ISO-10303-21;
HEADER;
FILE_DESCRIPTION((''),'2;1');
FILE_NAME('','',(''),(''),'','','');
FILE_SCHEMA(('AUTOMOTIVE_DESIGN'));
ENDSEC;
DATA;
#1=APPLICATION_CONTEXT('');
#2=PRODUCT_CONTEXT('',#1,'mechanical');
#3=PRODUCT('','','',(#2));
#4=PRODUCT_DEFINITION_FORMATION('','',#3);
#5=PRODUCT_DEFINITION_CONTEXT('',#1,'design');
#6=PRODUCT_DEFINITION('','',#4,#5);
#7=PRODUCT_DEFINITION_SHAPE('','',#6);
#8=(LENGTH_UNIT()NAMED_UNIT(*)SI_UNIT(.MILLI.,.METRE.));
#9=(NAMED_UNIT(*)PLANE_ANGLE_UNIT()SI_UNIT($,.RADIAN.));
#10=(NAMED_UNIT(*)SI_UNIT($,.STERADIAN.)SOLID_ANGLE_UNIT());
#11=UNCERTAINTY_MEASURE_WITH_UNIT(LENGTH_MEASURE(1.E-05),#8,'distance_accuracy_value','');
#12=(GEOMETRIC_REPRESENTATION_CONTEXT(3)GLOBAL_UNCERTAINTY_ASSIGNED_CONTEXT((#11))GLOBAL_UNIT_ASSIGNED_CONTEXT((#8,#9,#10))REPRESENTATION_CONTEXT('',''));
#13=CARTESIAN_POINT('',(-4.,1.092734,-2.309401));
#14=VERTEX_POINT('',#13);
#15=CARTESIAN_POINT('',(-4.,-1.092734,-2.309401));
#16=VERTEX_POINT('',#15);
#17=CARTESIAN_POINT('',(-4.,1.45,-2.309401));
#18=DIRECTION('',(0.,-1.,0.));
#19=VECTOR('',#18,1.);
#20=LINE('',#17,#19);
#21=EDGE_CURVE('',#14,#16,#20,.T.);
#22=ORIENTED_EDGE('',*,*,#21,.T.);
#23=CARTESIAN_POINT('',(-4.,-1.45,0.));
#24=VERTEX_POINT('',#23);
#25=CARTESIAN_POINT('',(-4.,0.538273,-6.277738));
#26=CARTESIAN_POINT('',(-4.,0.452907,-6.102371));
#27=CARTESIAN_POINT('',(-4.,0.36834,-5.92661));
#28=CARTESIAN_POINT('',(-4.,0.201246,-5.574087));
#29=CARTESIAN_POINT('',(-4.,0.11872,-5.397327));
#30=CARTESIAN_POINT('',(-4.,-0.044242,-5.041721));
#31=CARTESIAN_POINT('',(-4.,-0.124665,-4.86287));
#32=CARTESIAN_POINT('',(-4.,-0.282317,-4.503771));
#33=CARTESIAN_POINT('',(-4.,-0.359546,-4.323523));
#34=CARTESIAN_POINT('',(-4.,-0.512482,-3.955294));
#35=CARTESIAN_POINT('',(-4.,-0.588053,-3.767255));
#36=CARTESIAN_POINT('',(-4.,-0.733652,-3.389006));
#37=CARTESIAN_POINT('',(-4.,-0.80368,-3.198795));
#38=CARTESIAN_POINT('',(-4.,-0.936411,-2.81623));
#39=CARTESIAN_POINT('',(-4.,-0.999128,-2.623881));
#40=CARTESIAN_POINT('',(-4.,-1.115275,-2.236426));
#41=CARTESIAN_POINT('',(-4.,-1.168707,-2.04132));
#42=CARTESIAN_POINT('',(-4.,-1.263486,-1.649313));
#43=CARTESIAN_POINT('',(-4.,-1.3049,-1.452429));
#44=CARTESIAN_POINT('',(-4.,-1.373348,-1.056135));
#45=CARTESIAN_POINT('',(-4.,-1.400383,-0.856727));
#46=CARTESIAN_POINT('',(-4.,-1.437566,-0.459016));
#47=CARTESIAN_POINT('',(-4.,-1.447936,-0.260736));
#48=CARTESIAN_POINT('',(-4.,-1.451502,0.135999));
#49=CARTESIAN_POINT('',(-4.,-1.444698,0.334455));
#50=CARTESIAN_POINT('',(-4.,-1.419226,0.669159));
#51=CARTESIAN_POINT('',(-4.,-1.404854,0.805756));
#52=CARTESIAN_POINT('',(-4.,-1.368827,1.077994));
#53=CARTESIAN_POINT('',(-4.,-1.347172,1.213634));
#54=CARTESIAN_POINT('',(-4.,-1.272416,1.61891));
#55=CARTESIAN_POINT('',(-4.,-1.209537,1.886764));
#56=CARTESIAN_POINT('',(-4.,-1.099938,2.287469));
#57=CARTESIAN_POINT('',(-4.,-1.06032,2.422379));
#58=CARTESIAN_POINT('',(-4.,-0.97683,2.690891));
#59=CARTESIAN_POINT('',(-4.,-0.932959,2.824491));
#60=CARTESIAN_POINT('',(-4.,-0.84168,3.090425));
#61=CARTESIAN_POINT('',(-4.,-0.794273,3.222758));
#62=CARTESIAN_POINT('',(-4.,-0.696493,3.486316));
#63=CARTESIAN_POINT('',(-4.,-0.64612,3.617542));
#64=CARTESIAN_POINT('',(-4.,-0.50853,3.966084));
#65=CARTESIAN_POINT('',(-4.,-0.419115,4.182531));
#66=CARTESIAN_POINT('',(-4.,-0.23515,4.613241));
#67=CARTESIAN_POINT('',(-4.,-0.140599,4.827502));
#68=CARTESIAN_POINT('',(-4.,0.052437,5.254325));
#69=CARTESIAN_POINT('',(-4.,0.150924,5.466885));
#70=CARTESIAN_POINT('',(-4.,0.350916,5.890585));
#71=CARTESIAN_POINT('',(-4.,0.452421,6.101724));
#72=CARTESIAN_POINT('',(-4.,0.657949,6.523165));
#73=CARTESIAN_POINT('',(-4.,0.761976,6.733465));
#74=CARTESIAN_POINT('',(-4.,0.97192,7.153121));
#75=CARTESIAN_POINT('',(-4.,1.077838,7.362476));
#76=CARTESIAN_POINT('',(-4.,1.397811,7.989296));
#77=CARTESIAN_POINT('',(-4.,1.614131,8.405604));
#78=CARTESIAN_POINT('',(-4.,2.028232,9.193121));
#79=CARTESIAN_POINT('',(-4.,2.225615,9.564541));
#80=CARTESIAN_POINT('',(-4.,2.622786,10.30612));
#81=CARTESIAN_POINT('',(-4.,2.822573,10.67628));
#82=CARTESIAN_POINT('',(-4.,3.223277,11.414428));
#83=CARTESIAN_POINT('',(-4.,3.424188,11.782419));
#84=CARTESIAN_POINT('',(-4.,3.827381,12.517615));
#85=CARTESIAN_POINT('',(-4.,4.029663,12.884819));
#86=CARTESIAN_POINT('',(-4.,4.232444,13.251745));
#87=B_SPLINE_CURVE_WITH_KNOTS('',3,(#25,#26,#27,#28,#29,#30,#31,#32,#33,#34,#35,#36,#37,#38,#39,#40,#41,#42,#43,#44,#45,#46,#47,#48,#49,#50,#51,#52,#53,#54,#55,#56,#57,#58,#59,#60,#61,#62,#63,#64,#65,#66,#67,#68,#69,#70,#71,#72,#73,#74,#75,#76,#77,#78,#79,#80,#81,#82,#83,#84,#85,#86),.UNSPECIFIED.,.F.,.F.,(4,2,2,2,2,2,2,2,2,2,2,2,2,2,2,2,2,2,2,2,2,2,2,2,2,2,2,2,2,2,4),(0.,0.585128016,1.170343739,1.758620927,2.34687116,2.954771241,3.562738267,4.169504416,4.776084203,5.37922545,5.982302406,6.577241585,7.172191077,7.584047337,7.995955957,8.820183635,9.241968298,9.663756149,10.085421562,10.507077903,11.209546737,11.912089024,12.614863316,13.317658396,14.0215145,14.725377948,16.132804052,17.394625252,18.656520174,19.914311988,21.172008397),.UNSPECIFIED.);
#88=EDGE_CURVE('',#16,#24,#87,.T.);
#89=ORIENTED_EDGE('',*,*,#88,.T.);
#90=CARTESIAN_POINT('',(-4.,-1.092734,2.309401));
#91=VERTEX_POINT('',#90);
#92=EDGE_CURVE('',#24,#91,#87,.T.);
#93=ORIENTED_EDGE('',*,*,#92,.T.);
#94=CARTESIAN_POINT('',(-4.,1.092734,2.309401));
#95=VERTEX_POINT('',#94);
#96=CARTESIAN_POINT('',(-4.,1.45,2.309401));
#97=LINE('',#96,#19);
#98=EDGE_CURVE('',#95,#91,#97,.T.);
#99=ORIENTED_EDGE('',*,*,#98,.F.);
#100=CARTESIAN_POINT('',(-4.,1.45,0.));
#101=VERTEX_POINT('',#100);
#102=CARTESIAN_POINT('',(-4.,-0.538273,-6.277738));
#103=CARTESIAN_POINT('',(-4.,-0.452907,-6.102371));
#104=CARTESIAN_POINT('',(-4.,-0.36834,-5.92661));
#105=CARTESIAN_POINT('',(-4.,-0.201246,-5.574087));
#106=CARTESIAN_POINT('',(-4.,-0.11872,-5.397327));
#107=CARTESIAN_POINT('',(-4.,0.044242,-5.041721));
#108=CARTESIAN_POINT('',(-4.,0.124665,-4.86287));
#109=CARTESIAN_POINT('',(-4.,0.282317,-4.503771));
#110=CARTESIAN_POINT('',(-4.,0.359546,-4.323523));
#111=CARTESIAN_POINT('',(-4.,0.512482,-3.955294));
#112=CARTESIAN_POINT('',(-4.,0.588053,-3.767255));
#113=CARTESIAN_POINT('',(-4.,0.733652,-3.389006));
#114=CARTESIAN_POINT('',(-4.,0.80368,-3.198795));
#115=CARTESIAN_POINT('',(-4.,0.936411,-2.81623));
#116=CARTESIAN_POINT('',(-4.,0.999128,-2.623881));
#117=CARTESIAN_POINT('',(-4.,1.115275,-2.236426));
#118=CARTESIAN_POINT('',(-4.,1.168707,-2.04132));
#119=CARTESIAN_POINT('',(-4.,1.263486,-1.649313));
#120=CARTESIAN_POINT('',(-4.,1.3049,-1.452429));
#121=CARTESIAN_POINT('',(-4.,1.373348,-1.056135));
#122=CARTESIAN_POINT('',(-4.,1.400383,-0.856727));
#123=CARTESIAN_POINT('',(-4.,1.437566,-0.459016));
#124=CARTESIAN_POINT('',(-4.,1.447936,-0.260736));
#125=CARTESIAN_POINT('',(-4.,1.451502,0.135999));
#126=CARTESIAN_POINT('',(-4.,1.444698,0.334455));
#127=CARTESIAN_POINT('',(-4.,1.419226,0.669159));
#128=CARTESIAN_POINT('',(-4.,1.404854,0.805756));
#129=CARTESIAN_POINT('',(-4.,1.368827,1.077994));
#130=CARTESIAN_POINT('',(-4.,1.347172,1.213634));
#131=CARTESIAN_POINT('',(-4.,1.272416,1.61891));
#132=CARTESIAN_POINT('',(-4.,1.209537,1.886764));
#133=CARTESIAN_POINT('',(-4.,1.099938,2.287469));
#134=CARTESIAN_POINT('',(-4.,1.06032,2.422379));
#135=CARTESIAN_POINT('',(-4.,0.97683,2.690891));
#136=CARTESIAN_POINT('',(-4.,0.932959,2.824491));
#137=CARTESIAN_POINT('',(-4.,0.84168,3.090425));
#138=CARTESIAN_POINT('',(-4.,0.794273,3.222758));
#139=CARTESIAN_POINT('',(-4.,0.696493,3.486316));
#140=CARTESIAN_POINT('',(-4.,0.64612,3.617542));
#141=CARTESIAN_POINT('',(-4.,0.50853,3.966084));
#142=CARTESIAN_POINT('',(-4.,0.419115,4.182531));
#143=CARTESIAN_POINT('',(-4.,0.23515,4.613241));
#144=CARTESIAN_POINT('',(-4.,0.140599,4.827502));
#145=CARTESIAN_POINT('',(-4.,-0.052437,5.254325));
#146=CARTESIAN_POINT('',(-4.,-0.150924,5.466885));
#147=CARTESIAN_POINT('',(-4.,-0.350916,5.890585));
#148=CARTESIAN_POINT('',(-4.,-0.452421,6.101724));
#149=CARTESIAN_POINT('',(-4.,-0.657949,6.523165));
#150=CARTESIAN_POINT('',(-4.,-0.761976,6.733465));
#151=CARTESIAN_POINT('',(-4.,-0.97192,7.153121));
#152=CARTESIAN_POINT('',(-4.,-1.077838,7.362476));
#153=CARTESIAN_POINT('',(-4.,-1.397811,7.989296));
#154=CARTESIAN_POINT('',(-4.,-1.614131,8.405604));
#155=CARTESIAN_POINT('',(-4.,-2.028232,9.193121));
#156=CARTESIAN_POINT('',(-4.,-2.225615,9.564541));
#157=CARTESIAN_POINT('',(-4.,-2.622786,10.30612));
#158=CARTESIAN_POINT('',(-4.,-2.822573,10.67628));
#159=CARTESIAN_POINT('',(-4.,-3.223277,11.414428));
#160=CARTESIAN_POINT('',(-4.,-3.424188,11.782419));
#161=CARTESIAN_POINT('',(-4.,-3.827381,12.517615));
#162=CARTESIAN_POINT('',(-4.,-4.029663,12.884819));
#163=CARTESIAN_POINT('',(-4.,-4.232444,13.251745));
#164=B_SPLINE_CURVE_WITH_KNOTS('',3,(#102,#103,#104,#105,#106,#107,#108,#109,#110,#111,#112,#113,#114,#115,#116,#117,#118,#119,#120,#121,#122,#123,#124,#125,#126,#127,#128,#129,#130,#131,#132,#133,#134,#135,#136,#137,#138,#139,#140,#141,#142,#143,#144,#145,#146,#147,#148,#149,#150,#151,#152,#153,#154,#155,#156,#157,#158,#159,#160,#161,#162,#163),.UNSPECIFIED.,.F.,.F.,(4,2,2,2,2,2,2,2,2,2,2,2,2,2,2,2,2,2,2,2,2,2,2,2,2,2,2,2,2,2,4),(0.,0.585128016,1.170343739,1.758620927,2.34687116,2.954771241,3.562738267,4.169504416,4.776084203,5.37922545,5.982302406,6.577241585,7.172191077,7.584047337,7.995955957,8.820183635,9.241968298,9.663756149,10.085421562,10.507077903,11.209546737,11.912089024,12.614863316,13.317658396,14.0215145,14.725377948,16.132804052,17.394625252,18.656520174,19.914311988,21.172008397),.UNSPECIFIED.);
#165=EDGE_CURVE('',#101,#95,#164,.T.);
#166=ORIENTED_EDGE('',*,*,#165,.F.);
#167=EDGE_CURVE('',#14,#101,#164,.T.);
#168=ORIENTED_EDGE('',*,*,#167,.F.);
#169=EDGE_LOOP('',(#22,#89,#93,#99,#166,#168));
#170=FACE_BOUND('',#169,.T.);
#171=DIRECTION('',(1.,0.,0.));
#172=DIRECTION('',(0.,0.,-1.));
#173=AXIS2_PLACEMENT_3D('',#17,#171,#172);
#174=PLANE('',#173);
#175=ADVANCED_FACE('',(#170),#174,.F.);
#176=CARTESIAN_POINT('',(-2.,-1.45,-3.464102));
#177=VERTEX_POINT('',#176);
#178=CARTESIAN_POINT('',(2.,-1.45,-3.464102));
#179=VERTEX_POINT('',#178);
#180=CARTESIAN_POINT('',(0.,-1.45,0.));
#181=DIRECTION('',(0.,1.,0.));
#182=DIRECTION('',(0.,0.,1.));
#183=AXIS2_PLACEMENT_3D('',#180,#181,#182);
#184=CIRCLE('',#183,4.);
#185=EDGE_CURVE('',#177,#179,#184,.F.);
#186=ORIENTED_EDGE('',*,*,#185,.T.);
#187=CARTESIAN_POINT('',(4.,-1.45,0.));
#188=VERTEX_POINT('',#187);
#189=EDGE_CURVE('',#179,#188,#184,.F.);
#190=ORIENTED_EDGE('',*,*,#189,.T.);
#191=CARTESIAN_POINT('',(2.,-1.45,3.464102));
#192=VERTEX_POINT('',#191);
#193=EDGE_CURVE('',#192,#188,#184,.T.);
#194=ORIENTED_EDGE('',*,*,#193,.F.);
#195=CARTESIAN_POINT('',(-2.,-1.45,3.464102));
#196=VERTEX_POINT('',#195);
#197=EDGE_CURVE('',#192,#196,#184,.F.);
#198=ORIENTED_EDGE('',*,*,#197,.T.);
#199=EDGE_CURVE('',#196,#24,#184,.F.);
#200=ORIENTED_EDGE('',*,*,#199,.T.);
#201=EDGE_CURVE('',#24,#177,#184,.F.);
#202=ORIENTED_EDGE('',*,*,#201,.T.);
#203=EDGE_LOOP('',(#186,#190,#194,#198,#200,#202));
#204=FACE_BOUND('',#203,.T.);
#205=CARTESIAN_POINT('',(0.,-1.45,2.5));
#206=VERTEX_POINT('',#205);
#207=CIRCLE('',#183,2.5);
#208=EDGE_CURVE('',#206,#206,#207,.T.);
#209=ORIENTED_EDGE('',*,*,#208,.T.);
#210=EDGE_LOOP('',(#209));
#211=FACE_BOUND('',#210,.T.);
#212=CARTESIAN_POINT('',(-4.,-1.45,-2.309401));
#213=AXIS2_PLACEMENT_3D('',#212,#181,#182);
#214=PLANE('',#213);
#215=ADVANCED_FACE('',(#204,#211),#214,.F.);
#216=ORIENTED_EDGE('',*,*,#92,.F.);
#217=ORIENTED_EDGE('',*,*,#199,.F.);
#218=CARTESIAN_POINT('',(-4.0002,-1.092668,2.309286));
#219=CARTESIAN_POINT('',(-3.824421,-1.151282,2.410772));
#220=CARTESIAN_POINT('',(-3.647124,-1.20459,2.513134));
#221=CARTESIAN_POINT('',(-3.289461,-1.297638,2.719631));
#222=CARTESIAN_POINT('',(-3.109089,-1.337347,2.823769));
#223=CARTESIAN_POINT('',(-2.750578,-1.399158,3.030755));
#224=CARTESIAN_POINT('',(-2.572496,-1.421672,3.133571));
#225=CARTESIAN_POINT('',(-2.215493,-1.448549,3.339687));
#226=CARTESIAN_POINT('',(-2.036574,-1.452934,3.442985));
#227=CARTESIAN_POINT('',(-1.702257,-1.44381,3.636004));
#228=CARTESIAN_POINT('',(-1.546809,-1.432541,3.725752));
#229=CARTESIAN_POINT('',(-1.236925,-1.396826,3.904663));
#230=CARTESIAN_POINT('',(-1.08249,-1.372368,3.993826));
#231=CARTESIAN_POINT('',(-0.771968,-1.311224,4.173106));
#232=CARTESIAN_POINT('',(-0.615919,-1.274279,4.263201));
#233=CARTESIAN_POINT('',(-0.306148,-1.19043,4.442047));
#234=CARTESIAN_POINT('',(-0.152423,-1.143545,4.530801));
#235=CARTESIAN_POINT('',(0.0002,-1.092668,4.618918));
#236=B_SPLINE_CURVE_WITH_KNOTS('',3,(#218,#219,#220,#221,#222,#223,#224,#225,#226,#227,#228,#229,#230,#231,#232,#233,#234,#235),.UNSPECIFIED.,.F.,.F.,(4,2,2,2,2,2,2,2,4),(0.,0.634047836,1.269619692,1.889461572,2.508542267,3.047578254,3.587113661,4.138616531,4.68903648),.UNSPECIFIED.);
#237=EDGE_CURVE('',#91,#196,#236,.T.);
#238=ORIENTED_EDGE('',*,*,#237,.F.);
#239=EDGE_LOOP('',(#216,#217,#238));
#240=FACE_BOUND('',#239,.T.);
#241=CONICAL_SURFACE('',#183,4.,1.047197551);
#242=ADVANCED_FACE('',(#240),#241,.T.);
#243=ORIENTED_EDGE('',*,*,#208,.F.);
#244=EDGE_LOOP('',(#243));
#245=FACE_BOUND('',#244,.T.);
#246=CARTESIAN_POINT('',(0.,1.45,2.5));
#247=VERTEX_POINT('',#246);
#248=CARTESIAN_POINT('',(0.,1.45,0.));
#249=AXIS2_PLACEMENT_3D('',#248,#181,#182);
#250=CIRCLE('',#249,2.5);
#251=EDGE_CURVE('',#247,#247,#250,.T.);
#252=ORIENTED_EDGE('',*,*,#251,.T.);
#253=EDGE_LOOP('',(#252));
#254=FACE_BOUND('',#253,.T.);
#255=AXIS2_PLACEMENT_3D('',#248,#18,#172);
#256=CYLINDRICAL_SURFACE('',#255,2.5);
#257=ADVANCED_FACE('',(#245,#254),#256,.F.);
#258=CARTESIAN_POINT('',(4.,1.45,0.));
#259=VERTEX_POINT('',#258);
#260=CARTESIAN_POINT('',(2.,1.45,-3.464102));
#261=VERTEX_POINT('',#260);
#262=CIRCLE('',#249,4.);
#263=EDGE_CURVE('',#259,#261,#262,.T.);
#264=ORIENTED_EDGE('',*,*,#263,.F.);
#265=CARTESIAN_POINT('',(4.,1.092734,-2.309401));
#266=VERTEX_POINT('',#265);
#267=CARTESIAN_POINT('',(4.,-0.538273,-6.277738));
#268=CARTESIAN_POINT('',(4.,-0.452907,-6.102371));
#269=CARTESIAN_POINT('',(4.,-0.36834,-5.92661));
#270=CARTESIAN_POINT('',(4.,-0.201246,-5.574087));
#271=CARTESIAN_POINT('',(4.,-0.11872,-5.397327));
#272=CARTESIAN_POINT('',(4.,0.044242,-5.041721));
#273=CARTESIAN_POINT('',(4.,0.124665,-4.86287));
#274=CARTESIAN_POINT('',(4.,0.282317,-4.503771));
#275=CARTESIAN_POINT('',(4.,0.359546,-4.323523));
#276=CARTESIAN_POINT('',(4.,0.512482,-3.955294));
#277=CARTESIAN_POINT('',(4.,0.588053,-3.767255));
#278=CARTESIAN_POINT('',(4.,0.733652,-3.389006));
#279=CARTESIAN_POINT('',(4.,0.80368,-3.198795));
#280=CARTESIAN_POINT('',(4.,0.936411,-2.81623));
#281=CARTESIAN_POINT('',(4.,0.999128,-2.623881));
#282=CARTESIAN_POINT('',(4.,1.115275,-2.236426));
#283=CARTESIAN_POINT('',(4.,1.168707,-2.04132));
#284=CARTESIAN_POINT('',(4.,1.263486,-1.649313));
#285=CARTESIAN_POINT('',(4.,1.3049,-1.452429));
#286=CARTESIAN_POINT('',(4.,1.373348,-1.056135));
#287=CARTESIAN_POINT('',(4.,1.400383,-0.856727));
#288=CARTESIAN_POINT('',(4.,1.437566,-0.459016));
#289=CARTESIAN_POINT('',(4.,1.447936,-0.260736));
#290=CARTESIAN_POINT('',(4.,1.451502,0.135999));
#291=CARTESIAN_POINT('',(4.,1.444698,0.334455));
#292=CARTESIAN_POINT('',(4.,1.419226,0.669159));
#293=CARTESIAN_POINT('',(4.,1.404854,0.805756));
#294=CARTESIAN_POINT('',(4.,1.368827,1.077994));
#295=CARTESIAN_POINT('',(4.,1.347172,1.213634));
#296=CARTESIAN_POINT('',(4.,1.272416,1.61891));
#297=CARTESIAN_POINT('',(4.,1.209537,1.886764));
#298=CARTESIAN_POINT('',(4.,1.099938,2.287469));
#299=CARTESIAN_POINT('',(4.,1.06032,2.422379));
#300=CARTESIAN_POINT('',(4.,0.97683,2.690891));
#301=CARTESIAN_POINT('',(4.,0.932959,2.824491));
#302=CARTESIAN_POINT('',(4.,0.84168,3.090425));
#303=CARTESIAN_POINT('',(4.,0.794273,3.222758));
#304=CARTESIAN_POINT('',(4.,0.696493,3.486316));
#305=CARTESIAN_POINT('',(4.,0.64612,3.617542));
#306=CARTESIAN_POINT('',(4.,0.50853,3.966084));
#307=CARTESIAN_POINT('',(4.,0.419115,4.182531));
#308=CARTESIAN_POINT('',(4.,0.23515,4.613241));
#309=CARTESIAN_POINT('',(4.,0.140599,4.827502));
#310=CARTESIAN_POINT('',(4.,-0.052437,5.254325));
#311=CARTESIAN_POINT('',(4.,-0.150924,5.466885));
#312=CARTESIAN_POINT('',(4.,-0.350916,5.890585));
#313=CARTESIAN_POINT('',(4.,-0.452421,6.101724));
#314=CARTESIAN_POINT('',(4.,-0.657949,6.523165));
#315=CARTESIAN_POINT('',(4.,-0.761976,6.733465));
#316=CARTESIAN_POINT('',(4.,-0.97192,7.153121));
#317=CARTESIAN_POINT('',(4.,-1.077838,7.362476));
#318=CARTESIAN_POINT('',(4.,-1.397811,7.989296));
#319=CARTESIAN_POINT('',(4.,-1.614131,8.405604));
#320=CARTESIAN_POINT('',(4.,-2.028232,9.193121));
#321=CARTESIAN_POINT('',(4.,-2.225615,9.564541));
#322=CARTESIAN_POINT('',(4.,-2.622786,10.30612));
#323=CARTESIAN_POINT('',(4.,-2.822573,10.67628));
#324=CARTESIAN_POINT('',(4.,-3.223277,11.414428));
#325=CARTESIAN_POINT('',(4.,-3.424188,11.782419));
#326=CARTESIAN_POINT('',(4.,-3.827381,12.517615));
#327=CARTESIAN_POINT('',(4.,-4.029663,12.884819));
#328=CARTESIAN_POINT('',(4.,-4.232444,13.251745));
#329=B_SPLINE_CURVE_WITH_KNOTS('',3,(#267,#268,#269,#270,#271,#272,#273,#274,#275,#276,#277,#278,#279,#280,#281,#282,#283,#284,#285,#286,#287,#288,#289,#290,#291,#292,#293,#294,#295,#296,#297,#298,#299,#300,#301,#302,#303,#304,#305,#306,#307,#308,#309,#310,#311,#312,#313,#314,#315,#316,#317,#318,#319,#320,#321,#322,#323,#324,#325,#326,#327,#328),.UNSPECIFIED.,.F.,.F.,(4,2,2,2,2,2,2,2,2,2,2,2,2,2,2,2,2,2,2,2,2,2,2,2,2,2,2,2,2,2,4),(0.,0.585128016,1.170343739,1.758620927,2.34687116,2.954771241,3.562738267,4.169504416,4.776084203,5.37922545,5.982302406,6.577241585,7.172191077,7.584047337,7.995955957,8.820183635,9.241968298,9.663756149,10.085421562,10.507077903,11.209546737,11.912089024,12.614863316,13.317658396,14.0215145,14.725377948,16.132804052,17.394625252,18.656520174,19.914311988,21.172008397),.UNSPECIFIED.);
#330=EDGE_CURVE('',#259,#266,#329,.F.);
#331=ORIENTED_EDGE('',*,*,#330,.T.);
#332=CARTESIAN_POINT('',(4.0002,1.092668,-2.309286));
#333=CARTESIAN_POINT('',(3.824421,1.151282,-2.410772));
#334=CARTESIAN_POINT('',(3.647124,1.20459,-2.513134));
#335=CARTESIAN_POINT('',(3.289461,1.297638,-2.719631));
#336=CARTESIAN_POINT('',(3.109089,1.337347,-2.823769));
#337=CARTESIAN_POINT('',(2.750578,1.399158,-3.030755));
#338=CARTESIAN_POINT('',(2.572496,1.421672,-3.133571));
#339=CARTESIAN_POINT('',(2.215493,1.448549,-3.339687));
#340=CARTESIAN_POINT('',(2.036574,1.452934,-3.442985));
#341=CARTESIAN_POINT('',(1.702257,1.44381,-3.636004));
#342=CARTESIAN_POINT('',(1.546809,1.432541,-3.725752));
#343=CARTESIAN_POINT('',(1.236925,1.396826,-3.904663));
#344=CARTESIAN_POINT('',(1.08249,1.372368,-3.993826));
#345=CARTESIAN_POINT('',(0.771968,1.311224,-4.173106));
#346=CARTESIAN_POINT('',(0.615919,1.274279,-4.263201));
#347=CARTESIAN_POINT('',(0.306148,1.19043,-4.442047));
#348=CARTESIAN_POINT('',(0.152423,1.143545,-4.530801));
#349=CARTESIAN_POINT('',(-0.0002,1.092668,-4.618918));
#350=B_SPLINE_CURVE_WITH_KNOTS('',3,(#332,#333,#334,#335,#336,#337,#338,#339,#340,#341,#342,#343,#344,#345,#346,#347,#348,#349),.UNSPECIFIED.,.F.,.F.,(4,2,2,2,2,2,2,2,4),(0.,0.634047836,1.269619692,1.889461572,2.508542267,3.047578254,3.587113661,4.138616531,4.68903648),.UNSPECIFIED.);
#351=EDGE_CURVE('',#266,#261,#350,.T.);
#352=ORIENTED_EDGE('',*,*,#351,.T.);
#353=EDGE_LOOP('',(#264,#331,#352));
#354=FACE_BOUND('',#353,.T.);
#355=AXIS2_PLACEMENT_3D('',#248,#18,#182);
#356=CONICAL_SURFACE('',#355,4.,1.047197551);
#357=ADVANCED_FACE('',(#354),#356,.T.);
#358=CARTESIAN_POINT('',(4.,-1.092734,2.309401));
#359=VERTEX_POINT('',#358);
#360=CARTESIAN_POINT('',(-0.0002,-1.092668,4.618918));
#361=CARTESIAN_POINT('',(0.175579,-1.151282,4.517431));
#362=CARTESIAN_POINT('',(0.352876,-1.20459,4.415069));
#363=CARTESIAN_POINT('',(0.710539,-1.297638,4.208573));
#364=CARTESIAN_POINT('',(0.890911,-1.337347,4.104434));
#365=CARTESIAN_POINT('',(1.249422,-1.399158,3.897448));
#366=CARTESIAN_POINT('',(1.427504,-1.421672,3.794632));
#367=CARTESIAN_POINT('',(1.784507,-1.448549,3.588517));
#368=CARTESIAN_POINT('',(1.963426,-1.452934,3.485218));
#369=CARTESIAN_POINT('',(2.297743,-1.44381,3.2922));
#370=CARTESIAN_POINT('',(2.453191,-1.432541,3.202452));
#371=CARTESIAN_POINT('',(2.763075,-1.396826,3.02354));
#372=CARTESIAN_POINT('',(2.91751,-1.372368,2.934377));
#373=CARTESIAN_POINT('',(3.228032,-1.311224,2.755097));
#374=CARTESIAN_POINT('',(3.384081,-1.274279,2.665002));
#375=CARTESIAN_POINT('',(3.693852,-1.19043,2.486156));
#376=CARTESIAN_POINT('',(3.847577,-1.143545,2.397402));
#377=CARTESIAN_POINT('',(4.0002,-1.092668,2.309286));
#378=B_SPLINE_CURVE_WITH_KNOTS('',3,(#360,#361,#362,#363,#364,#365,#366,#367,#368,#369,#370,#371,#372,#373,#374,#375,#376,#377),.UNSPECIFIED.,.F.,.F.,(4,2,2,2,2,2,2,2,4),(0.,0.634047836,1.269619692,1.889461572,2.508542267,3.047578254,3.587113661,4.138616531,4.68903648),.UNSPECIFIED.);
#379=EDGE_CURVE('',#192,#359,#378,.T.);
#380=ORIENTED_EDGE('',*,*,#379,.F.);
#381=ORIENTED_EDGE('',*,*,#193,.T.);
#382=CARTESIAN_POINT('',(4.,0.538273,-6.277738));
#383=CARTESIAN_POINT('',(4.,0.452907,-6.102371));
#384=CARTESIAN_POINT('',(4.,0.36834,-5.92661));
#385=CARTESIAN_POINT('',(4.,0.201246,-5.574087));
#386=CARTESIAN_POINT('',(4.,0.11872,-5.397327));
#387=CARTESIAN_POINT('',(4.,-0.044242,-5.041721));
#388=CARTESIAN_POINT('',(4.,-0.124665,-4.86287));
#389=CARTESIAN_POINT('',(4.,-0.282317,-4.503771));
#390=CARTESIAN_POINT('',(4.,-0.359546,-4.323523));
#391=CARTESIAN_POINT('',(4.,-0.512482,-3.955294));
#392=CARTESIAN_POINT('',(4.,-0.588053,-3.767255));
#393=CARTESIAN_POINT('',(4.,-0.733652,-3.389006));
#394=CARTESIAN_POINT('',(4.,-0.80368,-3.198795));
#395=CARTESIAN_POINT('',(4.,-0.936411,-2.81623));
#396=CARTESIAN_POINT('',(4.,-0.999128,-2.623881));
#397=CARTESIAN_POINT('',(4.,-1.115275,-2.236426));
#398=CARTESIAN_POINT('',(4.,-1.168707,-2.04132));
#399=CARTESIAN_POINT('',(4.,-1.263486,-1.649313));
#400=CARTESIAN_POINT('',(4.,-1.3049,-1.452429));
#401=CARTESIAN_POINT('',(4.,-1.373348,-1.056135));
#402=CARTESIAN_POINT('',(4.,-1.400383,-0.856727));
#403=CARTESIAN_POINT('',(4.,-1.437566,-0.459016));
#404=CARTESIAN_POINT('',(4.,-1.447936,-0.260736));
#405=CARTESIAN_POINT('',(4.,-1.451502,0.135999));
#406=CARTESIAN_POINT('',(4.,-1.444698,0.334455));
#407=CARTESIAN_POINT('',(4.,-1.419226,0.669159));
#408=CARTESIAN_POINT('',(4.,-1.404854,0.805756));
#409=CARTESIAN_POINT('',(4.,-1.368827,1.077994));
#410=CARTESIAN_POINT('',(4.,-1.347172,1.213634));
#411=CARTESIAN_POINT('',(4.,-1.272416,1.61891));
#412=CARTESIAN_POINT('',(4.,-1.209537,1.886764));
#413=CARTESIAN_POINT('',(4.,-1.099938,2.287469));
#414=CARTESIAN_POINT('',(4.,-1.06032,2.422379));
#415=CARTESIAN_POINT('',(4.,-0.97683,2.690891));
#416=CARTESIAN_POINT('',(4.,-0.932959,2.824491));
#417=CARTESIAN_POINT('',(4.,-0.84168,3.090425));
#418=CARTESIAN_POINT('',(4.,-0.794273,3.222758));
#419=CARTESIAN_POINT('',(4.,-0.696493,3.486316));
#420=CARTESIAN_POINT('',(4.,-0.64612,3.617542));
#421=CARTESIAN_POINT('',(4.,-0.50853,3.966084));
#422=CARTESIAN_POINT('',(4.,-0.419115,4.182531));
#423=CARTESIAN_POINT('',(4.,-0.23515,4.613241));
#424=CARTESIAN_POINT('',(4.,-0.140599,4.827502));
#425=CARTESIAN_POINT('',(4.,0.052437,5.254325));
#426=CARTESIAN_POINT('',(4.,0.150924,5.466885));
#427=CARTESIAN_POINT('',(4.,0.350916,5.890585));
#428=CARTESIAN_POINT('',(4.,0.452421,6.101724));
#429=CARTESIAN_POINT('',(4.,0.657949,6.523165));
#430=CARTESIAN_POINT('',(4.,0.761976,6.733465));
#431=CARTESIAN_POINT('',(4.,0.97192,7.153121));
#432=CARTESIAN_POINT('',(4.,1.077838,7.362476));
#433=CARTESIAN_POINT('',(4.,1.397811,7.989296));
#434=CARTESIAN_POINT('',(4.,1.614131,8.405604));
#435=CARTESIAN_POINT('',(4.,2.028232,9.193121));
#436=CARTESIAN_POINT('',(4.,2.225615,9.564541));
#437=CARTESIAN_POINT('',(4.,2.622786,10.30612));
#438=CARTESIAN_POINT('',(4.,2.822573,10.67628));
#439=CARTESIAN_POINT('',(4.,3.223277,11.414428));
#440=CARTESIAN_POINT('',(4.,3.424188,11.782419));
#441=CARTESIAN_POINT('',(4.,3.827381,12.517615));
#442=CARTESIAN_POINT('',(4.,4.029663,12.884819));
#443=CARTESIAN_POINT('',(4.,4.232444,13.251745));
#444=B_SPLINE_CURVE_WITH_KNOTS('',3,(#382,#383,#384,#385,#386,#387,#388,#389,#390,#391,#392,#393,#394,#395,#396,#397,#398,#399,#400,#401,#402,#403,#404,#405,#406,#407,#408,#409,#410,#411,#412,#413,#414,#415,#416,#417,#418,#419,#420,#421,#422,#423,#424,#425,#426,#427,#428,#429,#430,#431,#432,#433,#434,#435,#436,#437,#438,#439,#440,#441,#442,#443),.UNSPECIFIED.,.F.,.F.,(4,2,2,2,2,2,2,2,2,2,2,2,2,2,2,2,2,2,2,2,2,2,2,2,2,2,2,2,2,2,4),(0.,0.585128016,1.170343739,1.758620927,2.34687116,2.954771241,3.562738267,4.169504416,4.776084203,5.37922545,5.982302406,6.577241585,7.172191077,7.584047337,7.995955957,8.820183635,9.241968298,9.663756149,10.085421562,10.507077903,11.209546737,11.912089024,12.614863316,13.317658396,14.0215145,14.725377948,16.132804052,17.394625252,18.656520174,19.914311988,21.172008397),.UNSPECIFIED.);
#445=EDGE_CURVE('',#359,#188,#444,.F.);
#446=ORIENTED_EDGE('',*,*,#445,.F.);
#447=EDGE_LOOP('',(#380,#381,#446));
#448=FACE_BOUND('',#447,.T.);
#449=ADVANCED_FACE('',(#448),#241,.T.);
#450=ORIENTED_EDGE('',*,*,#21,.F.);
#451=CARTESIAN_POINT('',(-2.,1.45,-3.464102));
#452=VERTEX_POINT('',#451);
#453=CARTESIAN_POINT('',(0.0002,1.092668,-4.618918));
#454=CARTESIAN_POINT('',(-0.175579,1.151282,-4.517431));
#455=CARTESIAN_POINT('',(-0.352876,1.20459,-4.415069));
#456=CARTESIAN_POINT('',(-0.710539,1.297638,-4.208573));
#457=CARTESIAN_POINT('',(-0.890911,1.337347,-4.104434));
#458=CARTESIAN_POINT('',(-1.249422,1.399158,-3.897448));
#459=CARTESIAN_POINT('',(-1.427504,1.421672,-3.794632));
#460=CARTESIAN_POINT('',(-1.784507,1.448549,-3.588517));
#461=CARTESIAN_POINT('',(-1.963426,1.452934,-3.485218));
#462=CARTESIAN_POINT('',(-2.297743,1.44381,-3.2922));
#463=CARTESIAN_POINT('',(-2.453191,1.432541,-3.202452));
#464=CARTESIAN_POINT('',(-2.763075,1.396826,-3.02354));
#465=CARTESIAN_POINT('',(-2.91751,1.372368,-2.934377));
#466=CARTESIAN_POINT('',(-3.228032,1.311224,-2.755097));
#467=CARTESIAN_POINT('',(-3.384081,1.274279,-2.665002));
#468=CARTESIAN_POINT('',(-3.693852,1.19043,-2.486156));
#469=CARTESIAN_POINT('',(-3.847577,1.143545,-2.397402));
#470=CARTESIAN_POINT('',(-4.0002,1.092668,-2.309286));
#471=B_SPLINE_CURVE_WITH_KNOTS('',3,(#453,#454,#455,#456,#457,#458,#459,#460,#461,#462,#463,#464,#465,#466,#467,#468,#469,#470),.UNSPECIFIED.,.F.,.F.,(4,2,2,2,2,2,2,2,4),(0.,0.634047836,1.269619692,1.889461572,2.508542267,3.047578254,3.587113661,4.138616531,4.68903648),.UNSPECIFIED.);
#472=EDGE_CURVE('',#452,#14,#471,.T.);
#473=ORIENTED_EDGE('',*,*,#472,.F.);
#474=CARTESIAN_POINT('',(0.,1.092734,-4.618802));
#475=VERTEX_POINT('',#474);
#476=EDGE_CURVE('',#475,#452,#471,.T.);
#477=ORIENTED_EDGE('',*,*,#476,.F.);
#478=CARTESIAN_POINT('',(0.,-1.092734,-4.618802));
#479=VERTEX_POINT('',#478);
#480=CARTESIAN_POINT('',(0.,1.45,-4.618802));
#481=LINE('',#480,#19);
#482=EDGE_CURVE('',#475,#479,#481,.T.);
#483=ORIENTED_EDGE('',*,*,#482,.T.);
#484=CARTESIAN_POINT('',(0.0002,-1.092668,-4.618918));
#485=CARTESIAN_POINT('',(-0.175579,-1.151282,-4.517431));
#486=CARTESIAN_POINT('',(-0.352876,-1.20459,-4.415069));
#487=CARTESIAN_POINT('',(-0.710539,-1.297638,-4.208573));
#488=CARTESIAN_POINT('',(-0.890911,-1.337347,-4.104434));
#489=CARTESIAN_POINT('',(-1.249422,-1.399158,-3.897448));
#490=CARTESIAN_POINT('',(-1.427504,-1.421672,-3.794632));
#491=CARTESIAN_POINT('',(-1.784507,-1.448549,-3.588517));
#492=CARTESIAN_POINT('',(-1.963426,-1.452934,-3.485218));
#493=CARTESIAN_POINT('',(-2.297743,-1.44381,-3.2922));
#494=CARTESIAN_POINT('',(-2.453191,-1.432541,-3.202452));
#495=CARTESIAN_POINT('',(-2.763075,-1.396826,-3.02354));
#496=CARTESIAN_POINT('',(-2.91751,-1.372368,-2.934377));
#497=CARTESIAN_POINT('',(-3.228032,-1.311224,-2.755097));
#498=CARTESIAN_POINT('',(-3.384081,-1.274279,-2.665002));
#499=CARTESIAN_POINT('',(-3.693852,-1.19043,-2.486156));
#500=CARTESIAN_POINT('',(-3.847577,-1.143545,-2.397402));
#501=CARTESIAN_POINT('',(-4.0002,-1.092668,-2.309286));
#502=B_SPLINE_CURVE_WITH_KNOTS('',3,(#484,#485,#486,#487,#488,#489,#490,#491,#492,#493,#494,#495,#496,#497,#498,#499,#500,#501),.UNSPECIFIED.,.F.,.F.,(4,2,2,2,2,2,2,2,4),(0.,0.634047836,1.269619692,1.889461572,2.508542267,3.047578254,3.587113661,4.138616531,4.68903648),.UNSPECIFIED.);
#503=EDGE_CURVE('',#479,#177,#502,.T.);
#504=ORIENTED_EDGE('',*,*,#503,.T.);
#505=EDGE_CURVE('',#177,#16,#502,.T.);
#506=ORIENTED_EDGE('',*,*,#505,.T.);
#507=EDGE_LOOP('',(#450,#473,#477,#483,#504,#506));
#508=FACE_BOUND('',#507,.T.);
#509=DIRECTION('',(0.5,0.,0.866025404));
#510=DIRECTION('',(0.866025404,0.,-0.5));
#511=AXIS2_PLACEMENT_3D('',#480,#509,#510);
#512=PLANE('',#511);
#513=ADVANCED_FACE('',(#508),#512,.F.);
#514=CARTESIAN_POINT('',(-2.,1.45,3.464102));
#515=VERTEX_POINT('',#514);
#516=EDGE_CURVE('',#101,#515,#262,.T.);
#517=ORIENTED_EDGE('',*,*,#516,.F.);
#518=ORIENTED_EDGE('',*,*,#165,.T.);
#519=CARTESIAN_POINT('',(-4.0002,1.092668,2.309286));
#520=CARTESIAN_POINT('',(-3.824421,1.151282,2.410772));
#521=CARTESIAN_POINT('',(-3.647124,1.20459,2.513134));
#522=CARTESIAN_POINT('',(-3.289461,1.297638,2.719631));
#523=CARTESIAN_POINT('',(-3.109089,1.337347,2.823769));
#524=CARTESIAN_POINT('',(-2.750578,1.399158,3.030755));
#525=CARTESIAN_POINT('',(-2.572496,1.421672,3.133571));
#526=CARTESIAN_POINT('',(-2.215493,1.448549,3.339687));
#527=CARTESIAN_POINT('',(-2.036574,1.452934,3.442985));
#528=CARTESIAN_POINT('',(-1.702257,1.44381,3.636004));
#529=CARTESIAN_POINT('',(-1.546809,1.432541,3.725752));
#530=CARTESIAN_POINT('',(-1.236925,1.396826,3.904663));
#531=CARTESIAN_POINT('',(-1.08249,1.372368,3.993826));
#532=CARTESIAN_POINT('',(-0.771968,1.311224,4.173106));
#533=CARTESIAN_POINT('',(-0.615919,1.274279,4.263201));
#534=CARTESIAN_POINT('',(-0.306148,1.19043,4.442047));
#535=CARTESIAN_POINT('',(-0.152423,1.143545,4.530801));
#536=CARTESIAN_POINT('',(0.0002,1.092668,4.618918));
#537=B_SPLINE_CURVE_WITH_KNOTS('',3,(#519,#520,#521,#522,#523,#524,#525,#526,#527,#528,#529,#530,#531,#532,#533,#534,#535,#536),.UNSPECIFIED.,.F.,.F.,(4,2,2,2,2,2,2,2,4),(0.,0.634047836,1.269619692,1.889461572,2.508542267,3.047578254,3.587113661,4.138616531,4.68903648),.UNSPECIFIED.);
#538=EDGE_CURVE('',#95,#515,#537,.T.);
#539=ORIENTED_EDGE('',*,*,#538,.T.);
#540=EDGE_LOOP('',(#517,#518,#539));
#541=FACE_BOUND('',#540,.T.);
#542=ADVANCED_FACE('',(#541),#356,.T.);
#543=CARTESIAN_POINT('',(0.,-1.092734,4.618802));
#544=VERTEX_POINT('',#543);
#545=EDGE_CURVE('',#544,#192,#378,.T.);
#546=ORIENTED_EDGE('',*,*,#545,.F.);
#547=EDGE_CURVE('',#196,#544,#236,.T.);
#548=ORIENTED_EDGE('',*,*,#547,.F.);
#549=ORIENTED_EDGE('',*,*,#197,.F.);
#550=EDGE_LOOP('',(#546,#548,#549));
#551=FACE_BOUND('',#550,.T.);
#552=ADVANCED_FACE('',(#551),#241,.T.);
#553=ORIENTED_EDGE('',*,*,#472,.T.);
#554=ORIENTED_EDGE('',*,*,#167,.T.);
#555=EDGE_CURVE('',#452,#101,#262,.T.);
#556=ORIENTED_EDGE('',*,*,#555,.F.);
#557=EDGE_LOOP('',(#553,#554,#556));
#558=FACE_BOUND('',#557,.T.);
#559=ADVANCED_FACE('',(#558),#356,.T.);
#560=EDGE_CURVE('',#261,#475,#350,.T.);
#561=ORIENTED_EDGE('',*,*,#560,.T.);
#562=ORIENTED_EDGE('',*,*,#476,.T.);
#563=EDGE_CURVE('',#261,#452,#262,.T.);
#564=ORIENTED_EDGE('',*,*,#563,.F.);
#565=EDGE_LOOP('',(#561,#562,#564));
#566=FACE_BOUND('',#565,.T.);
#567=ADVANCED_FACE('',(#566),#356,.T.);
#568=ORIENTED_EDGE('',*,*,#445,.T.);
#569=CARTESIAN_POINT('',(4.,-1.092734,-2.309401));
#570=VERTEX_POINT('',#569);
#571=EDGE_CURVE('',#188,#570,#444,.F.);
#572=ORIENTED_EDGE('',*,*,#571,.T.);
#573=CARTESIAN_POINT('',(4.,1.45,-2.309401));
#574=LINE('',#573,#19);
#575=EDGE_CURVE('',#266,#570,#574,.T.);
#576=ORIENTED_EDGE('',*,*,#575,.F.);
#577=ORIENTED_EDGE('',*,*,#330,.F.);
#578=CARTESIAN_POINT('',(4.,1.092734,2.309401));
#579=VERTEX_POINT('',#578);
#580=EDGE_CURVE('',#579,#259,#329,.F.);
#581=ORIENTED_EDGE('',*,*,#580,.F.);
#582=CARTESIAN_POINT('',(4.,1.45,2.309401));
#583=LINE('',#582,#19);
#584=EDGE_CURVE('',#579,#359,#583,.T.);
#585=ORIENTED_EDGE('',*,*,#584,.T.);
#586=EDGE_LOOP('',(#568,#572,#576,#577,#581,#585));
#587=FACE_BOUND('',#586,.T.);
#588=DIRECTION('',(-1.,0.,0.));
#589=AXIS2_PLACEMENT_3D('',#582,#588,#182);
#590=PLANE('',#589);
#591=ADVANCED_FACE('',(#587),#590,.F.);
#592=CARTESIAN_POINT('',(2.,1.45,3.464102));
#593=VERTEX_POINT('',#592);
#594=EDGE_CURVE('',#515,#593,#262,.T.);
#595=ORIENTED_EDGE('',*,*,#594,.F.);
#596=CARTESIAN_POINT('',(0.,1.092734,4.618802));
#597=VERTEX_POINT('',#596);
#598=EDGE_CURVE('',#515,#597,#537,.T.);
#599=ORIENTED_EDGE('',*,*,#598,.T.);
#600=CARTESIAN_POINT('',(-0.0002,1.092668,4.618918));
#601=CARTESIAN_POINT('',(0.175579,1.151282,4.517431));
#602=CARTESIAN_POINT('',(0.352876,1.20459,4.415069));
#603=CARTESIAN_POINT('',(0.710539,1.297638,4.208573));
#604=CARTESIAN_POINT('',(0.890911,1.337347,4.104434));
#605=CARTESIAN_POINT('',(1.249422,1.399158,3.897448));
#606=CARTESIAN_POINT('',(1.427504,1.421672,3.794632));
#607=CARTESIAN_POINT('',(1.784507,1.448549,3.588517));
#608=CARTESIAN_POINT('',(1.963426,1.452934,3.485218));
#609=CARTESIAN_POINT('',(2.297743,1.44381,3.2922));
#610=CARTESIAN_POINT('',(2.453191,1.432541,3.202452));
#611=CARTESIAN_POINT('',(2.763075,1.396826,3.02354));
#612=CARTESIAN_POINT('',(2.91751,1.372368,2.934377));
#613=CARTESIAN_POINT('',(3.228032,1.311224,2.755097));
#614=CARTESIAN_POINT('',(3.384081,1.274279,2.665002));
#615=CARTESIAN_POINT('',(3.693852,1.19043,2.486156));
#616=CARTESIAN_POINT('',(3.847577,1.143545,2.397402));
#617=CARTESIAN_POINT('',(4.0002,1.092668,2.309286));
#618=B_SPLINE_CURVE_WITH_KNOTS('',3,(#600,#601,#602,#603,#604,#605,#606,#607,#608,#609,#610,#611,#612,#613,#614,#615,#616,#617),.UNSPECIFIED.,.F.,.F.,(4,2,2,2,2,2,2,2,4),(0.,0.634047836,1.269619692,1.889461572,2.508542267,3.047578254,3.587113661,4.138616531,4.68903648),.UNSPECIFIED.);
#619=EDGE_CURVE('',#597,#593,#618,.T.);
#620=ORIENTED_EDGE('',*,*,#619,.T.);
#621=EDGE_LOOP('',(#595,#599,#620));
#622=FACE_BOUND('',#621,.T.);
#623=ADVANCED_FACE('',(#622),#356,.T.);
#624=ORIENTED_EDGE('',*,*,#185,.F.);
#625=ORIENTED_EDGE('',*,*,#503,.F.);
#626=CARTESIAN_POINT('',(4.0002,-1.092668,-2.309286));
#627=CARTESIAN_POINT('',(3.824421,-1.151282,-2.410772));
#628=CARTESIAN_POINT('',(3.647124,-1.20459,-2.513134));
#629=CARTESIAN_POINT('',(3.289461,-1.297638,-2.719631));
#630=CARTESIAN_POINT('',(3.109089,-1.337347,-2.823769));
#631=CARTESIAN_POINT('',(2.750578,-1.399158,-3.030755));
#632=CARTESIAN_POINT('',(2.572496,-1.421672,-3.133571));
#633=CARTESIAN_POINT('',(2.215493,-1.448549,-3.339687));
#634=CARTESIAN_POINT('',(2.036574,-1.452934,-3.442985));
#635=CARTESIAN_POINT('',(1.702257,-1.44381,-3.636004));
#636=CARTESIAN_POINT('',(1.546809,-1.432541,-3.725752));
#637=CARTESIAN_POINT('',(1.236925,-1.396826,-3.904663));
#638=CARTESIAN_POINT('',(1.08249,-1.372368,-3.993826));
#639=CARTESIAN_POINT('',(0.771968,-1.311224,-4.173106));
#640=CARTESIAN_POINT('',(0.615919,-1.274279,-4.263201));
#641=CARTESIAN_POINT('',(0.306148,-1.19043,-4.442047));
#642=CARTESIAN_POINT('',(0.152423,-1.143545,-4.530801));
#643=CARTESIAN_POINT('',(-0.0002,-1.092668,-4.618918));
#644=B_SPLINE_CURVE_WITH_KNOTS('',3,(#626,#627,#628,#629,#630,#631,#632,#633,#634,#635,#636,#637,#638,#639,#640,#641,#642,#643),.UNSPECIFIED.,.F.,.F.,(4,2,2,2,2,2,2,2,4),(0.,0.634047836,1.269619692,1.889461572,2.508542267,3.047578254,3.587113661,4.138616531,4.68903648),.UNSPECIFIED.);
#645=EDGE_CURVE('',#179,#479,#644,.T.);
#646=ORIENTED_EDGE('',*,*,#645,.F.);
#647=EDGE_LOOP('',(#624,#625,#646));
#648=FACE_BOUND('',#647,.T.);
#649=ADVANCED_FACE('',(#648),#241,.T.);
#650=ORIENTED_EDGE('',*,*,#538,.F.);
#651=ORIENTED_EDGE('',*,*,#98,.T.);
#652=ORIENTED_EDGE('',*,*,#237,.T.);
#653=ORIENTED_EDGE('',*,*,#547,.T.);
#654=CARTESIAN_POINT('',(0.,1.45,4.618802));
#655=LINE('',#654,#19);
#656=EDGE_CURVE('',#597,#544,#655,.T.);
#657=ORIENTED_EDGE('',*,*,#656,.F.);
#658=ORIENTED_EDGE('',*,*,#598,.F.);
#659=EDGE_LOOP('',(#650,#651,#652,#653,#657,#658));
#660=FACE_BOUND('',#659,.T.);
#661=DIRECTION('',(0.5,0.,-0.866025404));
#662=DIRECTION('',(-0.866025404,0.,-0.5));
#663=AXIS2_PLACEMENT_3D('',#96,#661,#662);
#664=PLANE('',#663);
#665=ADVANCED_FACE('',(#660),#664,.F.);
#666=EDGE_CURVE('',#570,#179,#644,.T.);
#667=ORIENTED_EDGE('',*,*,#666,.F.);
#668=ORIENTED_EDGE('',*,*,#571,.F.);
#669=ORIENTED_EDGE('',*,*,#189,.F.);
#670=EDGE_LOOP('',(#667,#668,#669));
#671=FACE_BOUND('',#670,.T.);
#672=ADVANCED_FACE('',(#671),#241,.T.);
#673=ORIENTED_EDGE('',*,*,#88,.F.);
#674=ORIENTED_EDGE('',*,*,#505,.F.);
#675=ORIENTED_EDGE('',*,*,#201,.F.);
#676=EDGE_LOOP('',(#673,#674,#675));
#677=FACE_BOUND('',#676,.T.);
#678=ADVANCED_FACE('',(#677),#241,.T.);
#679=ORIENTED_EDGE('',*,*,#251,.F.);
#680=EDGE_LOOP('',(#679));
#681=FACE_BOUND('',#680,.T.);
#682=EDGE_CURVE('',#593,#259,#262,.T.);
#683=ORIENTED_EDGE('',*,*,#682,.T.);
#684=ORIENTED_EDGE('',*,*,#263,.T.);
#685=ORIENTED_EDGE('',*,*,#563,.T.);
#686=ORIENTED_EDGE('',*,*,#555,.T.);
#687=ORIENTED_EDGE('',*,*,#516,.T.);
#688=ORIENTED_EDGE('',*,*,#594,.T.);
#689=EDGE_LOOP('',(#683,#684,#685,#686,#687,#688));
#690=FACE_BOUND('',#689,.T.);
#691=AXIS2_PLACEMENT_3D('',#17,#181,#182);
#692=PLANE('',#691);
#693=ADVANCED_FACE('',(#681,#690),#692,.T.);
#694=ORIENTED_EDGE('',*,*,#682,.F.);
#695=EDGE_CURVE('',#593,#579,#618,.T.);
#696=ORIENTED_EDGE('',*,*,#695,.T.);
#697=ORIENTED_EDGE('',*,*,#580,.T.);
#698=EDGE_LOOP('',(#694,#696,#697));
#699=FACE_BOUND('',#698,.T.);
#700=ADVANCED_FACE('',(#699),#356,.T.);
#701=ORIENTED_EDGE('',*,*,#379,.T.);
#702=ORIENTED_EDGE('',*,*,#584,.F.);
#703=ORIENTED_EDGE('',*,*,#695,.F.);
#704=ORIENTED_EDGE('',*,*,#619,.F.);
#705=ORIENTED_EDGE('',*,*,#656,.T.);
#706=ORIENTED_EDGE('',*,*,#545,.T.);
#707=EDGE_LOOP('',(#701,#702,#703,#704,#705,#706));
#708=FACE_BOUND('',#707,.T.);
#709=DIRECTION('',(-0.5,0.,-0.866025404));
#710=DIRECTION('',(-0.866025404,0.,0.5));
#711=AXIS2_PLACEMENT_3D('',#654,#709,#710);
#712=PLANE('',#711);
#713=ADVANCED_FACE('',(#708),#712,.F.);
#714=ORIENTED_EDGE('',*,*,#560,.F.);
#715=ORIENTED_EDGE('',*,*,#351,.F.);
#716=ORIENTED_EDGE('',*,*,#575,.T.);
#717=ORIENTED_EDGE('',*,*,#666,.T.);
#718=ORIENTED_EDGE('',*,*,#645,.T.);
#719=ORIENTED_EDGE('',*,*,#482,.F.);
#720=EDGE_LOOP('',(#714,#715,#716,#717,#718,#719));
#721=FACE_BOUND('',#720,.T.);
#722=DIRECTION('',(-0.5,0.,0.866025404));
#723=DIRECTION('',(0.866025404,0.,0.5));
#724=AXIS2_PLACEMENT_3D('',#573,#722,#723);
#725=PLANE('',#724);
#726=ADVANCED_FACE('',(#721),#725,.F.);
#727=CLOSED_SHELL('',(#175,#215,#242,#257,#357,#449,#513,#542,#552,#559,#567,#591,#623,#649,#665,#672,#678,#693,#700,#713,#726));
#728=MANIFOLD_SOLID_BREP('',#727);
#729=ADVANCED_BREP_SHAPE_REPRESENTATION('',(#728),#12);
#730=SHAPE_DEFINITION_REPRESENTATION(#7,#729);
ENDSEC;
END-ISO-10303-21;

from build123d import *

# Parameters (mm, degrees)
SKETCH1_R           = 2.5
BOSS_EXTRUDE1_DEPTH = 1.45
SKETCH5_OUTSIDE_W   = 26.022
SKETCH5_OUTSIDE_H   = 27.26
SKETCH5_OUTSIDE_R   = 4
CUT_EXTRUDE2_DEPTH  = 3.9
CUT_EXTRUDE2_TAPER  = 60


with BuildPart() as part:
    # Sketch1 → Boss-Extrude1 (new body, symmetric)
    with BuildSketch(Plane(origin=(0, 0, 0), x_dir=(1, 0, 0), z_dir=(0, 1, 0))):
        Polygon((-4, 2.309401077), (-4, -2.309401077), (0, -4.618802154), (4, -2.309401077), (4, 2.309401077), (0, 4.618802154), align=None)
        Circle(SKETCH1_R, mode=Mode.SUBTRACT)
    extrude(amount=BOSS_EXTRUDE1_DEPTH, both=True)

    # Sketch5 outside → Cut-Extrude2 (cut, through all)
    with BuildSketch(Plane(origin=(0, 1.45, 0), x_dir=(1, 0, 0), z_dir=(0, 1, 0))):
        Rectangle(SKETCH5_OUTSIDE_W, SKETCH5_OUTSIDE_H)
        Circle(SKETCH5_OUTSIDE_R, mode=Mode.SUBTRACT)
    cut_extrude2 = extrude(amount=-CUT_EXTRUDE2_DEPTH, taper=CUT_EXTRUDE2_TAPER, mode=Mode.SUBTRACT)

    # Mirror1: Cut-Extrude2 across plane
    add(cut_extrude2.mirror(Plane.ZX), mode=Mode.SUBTRACT)


solid = part.part
